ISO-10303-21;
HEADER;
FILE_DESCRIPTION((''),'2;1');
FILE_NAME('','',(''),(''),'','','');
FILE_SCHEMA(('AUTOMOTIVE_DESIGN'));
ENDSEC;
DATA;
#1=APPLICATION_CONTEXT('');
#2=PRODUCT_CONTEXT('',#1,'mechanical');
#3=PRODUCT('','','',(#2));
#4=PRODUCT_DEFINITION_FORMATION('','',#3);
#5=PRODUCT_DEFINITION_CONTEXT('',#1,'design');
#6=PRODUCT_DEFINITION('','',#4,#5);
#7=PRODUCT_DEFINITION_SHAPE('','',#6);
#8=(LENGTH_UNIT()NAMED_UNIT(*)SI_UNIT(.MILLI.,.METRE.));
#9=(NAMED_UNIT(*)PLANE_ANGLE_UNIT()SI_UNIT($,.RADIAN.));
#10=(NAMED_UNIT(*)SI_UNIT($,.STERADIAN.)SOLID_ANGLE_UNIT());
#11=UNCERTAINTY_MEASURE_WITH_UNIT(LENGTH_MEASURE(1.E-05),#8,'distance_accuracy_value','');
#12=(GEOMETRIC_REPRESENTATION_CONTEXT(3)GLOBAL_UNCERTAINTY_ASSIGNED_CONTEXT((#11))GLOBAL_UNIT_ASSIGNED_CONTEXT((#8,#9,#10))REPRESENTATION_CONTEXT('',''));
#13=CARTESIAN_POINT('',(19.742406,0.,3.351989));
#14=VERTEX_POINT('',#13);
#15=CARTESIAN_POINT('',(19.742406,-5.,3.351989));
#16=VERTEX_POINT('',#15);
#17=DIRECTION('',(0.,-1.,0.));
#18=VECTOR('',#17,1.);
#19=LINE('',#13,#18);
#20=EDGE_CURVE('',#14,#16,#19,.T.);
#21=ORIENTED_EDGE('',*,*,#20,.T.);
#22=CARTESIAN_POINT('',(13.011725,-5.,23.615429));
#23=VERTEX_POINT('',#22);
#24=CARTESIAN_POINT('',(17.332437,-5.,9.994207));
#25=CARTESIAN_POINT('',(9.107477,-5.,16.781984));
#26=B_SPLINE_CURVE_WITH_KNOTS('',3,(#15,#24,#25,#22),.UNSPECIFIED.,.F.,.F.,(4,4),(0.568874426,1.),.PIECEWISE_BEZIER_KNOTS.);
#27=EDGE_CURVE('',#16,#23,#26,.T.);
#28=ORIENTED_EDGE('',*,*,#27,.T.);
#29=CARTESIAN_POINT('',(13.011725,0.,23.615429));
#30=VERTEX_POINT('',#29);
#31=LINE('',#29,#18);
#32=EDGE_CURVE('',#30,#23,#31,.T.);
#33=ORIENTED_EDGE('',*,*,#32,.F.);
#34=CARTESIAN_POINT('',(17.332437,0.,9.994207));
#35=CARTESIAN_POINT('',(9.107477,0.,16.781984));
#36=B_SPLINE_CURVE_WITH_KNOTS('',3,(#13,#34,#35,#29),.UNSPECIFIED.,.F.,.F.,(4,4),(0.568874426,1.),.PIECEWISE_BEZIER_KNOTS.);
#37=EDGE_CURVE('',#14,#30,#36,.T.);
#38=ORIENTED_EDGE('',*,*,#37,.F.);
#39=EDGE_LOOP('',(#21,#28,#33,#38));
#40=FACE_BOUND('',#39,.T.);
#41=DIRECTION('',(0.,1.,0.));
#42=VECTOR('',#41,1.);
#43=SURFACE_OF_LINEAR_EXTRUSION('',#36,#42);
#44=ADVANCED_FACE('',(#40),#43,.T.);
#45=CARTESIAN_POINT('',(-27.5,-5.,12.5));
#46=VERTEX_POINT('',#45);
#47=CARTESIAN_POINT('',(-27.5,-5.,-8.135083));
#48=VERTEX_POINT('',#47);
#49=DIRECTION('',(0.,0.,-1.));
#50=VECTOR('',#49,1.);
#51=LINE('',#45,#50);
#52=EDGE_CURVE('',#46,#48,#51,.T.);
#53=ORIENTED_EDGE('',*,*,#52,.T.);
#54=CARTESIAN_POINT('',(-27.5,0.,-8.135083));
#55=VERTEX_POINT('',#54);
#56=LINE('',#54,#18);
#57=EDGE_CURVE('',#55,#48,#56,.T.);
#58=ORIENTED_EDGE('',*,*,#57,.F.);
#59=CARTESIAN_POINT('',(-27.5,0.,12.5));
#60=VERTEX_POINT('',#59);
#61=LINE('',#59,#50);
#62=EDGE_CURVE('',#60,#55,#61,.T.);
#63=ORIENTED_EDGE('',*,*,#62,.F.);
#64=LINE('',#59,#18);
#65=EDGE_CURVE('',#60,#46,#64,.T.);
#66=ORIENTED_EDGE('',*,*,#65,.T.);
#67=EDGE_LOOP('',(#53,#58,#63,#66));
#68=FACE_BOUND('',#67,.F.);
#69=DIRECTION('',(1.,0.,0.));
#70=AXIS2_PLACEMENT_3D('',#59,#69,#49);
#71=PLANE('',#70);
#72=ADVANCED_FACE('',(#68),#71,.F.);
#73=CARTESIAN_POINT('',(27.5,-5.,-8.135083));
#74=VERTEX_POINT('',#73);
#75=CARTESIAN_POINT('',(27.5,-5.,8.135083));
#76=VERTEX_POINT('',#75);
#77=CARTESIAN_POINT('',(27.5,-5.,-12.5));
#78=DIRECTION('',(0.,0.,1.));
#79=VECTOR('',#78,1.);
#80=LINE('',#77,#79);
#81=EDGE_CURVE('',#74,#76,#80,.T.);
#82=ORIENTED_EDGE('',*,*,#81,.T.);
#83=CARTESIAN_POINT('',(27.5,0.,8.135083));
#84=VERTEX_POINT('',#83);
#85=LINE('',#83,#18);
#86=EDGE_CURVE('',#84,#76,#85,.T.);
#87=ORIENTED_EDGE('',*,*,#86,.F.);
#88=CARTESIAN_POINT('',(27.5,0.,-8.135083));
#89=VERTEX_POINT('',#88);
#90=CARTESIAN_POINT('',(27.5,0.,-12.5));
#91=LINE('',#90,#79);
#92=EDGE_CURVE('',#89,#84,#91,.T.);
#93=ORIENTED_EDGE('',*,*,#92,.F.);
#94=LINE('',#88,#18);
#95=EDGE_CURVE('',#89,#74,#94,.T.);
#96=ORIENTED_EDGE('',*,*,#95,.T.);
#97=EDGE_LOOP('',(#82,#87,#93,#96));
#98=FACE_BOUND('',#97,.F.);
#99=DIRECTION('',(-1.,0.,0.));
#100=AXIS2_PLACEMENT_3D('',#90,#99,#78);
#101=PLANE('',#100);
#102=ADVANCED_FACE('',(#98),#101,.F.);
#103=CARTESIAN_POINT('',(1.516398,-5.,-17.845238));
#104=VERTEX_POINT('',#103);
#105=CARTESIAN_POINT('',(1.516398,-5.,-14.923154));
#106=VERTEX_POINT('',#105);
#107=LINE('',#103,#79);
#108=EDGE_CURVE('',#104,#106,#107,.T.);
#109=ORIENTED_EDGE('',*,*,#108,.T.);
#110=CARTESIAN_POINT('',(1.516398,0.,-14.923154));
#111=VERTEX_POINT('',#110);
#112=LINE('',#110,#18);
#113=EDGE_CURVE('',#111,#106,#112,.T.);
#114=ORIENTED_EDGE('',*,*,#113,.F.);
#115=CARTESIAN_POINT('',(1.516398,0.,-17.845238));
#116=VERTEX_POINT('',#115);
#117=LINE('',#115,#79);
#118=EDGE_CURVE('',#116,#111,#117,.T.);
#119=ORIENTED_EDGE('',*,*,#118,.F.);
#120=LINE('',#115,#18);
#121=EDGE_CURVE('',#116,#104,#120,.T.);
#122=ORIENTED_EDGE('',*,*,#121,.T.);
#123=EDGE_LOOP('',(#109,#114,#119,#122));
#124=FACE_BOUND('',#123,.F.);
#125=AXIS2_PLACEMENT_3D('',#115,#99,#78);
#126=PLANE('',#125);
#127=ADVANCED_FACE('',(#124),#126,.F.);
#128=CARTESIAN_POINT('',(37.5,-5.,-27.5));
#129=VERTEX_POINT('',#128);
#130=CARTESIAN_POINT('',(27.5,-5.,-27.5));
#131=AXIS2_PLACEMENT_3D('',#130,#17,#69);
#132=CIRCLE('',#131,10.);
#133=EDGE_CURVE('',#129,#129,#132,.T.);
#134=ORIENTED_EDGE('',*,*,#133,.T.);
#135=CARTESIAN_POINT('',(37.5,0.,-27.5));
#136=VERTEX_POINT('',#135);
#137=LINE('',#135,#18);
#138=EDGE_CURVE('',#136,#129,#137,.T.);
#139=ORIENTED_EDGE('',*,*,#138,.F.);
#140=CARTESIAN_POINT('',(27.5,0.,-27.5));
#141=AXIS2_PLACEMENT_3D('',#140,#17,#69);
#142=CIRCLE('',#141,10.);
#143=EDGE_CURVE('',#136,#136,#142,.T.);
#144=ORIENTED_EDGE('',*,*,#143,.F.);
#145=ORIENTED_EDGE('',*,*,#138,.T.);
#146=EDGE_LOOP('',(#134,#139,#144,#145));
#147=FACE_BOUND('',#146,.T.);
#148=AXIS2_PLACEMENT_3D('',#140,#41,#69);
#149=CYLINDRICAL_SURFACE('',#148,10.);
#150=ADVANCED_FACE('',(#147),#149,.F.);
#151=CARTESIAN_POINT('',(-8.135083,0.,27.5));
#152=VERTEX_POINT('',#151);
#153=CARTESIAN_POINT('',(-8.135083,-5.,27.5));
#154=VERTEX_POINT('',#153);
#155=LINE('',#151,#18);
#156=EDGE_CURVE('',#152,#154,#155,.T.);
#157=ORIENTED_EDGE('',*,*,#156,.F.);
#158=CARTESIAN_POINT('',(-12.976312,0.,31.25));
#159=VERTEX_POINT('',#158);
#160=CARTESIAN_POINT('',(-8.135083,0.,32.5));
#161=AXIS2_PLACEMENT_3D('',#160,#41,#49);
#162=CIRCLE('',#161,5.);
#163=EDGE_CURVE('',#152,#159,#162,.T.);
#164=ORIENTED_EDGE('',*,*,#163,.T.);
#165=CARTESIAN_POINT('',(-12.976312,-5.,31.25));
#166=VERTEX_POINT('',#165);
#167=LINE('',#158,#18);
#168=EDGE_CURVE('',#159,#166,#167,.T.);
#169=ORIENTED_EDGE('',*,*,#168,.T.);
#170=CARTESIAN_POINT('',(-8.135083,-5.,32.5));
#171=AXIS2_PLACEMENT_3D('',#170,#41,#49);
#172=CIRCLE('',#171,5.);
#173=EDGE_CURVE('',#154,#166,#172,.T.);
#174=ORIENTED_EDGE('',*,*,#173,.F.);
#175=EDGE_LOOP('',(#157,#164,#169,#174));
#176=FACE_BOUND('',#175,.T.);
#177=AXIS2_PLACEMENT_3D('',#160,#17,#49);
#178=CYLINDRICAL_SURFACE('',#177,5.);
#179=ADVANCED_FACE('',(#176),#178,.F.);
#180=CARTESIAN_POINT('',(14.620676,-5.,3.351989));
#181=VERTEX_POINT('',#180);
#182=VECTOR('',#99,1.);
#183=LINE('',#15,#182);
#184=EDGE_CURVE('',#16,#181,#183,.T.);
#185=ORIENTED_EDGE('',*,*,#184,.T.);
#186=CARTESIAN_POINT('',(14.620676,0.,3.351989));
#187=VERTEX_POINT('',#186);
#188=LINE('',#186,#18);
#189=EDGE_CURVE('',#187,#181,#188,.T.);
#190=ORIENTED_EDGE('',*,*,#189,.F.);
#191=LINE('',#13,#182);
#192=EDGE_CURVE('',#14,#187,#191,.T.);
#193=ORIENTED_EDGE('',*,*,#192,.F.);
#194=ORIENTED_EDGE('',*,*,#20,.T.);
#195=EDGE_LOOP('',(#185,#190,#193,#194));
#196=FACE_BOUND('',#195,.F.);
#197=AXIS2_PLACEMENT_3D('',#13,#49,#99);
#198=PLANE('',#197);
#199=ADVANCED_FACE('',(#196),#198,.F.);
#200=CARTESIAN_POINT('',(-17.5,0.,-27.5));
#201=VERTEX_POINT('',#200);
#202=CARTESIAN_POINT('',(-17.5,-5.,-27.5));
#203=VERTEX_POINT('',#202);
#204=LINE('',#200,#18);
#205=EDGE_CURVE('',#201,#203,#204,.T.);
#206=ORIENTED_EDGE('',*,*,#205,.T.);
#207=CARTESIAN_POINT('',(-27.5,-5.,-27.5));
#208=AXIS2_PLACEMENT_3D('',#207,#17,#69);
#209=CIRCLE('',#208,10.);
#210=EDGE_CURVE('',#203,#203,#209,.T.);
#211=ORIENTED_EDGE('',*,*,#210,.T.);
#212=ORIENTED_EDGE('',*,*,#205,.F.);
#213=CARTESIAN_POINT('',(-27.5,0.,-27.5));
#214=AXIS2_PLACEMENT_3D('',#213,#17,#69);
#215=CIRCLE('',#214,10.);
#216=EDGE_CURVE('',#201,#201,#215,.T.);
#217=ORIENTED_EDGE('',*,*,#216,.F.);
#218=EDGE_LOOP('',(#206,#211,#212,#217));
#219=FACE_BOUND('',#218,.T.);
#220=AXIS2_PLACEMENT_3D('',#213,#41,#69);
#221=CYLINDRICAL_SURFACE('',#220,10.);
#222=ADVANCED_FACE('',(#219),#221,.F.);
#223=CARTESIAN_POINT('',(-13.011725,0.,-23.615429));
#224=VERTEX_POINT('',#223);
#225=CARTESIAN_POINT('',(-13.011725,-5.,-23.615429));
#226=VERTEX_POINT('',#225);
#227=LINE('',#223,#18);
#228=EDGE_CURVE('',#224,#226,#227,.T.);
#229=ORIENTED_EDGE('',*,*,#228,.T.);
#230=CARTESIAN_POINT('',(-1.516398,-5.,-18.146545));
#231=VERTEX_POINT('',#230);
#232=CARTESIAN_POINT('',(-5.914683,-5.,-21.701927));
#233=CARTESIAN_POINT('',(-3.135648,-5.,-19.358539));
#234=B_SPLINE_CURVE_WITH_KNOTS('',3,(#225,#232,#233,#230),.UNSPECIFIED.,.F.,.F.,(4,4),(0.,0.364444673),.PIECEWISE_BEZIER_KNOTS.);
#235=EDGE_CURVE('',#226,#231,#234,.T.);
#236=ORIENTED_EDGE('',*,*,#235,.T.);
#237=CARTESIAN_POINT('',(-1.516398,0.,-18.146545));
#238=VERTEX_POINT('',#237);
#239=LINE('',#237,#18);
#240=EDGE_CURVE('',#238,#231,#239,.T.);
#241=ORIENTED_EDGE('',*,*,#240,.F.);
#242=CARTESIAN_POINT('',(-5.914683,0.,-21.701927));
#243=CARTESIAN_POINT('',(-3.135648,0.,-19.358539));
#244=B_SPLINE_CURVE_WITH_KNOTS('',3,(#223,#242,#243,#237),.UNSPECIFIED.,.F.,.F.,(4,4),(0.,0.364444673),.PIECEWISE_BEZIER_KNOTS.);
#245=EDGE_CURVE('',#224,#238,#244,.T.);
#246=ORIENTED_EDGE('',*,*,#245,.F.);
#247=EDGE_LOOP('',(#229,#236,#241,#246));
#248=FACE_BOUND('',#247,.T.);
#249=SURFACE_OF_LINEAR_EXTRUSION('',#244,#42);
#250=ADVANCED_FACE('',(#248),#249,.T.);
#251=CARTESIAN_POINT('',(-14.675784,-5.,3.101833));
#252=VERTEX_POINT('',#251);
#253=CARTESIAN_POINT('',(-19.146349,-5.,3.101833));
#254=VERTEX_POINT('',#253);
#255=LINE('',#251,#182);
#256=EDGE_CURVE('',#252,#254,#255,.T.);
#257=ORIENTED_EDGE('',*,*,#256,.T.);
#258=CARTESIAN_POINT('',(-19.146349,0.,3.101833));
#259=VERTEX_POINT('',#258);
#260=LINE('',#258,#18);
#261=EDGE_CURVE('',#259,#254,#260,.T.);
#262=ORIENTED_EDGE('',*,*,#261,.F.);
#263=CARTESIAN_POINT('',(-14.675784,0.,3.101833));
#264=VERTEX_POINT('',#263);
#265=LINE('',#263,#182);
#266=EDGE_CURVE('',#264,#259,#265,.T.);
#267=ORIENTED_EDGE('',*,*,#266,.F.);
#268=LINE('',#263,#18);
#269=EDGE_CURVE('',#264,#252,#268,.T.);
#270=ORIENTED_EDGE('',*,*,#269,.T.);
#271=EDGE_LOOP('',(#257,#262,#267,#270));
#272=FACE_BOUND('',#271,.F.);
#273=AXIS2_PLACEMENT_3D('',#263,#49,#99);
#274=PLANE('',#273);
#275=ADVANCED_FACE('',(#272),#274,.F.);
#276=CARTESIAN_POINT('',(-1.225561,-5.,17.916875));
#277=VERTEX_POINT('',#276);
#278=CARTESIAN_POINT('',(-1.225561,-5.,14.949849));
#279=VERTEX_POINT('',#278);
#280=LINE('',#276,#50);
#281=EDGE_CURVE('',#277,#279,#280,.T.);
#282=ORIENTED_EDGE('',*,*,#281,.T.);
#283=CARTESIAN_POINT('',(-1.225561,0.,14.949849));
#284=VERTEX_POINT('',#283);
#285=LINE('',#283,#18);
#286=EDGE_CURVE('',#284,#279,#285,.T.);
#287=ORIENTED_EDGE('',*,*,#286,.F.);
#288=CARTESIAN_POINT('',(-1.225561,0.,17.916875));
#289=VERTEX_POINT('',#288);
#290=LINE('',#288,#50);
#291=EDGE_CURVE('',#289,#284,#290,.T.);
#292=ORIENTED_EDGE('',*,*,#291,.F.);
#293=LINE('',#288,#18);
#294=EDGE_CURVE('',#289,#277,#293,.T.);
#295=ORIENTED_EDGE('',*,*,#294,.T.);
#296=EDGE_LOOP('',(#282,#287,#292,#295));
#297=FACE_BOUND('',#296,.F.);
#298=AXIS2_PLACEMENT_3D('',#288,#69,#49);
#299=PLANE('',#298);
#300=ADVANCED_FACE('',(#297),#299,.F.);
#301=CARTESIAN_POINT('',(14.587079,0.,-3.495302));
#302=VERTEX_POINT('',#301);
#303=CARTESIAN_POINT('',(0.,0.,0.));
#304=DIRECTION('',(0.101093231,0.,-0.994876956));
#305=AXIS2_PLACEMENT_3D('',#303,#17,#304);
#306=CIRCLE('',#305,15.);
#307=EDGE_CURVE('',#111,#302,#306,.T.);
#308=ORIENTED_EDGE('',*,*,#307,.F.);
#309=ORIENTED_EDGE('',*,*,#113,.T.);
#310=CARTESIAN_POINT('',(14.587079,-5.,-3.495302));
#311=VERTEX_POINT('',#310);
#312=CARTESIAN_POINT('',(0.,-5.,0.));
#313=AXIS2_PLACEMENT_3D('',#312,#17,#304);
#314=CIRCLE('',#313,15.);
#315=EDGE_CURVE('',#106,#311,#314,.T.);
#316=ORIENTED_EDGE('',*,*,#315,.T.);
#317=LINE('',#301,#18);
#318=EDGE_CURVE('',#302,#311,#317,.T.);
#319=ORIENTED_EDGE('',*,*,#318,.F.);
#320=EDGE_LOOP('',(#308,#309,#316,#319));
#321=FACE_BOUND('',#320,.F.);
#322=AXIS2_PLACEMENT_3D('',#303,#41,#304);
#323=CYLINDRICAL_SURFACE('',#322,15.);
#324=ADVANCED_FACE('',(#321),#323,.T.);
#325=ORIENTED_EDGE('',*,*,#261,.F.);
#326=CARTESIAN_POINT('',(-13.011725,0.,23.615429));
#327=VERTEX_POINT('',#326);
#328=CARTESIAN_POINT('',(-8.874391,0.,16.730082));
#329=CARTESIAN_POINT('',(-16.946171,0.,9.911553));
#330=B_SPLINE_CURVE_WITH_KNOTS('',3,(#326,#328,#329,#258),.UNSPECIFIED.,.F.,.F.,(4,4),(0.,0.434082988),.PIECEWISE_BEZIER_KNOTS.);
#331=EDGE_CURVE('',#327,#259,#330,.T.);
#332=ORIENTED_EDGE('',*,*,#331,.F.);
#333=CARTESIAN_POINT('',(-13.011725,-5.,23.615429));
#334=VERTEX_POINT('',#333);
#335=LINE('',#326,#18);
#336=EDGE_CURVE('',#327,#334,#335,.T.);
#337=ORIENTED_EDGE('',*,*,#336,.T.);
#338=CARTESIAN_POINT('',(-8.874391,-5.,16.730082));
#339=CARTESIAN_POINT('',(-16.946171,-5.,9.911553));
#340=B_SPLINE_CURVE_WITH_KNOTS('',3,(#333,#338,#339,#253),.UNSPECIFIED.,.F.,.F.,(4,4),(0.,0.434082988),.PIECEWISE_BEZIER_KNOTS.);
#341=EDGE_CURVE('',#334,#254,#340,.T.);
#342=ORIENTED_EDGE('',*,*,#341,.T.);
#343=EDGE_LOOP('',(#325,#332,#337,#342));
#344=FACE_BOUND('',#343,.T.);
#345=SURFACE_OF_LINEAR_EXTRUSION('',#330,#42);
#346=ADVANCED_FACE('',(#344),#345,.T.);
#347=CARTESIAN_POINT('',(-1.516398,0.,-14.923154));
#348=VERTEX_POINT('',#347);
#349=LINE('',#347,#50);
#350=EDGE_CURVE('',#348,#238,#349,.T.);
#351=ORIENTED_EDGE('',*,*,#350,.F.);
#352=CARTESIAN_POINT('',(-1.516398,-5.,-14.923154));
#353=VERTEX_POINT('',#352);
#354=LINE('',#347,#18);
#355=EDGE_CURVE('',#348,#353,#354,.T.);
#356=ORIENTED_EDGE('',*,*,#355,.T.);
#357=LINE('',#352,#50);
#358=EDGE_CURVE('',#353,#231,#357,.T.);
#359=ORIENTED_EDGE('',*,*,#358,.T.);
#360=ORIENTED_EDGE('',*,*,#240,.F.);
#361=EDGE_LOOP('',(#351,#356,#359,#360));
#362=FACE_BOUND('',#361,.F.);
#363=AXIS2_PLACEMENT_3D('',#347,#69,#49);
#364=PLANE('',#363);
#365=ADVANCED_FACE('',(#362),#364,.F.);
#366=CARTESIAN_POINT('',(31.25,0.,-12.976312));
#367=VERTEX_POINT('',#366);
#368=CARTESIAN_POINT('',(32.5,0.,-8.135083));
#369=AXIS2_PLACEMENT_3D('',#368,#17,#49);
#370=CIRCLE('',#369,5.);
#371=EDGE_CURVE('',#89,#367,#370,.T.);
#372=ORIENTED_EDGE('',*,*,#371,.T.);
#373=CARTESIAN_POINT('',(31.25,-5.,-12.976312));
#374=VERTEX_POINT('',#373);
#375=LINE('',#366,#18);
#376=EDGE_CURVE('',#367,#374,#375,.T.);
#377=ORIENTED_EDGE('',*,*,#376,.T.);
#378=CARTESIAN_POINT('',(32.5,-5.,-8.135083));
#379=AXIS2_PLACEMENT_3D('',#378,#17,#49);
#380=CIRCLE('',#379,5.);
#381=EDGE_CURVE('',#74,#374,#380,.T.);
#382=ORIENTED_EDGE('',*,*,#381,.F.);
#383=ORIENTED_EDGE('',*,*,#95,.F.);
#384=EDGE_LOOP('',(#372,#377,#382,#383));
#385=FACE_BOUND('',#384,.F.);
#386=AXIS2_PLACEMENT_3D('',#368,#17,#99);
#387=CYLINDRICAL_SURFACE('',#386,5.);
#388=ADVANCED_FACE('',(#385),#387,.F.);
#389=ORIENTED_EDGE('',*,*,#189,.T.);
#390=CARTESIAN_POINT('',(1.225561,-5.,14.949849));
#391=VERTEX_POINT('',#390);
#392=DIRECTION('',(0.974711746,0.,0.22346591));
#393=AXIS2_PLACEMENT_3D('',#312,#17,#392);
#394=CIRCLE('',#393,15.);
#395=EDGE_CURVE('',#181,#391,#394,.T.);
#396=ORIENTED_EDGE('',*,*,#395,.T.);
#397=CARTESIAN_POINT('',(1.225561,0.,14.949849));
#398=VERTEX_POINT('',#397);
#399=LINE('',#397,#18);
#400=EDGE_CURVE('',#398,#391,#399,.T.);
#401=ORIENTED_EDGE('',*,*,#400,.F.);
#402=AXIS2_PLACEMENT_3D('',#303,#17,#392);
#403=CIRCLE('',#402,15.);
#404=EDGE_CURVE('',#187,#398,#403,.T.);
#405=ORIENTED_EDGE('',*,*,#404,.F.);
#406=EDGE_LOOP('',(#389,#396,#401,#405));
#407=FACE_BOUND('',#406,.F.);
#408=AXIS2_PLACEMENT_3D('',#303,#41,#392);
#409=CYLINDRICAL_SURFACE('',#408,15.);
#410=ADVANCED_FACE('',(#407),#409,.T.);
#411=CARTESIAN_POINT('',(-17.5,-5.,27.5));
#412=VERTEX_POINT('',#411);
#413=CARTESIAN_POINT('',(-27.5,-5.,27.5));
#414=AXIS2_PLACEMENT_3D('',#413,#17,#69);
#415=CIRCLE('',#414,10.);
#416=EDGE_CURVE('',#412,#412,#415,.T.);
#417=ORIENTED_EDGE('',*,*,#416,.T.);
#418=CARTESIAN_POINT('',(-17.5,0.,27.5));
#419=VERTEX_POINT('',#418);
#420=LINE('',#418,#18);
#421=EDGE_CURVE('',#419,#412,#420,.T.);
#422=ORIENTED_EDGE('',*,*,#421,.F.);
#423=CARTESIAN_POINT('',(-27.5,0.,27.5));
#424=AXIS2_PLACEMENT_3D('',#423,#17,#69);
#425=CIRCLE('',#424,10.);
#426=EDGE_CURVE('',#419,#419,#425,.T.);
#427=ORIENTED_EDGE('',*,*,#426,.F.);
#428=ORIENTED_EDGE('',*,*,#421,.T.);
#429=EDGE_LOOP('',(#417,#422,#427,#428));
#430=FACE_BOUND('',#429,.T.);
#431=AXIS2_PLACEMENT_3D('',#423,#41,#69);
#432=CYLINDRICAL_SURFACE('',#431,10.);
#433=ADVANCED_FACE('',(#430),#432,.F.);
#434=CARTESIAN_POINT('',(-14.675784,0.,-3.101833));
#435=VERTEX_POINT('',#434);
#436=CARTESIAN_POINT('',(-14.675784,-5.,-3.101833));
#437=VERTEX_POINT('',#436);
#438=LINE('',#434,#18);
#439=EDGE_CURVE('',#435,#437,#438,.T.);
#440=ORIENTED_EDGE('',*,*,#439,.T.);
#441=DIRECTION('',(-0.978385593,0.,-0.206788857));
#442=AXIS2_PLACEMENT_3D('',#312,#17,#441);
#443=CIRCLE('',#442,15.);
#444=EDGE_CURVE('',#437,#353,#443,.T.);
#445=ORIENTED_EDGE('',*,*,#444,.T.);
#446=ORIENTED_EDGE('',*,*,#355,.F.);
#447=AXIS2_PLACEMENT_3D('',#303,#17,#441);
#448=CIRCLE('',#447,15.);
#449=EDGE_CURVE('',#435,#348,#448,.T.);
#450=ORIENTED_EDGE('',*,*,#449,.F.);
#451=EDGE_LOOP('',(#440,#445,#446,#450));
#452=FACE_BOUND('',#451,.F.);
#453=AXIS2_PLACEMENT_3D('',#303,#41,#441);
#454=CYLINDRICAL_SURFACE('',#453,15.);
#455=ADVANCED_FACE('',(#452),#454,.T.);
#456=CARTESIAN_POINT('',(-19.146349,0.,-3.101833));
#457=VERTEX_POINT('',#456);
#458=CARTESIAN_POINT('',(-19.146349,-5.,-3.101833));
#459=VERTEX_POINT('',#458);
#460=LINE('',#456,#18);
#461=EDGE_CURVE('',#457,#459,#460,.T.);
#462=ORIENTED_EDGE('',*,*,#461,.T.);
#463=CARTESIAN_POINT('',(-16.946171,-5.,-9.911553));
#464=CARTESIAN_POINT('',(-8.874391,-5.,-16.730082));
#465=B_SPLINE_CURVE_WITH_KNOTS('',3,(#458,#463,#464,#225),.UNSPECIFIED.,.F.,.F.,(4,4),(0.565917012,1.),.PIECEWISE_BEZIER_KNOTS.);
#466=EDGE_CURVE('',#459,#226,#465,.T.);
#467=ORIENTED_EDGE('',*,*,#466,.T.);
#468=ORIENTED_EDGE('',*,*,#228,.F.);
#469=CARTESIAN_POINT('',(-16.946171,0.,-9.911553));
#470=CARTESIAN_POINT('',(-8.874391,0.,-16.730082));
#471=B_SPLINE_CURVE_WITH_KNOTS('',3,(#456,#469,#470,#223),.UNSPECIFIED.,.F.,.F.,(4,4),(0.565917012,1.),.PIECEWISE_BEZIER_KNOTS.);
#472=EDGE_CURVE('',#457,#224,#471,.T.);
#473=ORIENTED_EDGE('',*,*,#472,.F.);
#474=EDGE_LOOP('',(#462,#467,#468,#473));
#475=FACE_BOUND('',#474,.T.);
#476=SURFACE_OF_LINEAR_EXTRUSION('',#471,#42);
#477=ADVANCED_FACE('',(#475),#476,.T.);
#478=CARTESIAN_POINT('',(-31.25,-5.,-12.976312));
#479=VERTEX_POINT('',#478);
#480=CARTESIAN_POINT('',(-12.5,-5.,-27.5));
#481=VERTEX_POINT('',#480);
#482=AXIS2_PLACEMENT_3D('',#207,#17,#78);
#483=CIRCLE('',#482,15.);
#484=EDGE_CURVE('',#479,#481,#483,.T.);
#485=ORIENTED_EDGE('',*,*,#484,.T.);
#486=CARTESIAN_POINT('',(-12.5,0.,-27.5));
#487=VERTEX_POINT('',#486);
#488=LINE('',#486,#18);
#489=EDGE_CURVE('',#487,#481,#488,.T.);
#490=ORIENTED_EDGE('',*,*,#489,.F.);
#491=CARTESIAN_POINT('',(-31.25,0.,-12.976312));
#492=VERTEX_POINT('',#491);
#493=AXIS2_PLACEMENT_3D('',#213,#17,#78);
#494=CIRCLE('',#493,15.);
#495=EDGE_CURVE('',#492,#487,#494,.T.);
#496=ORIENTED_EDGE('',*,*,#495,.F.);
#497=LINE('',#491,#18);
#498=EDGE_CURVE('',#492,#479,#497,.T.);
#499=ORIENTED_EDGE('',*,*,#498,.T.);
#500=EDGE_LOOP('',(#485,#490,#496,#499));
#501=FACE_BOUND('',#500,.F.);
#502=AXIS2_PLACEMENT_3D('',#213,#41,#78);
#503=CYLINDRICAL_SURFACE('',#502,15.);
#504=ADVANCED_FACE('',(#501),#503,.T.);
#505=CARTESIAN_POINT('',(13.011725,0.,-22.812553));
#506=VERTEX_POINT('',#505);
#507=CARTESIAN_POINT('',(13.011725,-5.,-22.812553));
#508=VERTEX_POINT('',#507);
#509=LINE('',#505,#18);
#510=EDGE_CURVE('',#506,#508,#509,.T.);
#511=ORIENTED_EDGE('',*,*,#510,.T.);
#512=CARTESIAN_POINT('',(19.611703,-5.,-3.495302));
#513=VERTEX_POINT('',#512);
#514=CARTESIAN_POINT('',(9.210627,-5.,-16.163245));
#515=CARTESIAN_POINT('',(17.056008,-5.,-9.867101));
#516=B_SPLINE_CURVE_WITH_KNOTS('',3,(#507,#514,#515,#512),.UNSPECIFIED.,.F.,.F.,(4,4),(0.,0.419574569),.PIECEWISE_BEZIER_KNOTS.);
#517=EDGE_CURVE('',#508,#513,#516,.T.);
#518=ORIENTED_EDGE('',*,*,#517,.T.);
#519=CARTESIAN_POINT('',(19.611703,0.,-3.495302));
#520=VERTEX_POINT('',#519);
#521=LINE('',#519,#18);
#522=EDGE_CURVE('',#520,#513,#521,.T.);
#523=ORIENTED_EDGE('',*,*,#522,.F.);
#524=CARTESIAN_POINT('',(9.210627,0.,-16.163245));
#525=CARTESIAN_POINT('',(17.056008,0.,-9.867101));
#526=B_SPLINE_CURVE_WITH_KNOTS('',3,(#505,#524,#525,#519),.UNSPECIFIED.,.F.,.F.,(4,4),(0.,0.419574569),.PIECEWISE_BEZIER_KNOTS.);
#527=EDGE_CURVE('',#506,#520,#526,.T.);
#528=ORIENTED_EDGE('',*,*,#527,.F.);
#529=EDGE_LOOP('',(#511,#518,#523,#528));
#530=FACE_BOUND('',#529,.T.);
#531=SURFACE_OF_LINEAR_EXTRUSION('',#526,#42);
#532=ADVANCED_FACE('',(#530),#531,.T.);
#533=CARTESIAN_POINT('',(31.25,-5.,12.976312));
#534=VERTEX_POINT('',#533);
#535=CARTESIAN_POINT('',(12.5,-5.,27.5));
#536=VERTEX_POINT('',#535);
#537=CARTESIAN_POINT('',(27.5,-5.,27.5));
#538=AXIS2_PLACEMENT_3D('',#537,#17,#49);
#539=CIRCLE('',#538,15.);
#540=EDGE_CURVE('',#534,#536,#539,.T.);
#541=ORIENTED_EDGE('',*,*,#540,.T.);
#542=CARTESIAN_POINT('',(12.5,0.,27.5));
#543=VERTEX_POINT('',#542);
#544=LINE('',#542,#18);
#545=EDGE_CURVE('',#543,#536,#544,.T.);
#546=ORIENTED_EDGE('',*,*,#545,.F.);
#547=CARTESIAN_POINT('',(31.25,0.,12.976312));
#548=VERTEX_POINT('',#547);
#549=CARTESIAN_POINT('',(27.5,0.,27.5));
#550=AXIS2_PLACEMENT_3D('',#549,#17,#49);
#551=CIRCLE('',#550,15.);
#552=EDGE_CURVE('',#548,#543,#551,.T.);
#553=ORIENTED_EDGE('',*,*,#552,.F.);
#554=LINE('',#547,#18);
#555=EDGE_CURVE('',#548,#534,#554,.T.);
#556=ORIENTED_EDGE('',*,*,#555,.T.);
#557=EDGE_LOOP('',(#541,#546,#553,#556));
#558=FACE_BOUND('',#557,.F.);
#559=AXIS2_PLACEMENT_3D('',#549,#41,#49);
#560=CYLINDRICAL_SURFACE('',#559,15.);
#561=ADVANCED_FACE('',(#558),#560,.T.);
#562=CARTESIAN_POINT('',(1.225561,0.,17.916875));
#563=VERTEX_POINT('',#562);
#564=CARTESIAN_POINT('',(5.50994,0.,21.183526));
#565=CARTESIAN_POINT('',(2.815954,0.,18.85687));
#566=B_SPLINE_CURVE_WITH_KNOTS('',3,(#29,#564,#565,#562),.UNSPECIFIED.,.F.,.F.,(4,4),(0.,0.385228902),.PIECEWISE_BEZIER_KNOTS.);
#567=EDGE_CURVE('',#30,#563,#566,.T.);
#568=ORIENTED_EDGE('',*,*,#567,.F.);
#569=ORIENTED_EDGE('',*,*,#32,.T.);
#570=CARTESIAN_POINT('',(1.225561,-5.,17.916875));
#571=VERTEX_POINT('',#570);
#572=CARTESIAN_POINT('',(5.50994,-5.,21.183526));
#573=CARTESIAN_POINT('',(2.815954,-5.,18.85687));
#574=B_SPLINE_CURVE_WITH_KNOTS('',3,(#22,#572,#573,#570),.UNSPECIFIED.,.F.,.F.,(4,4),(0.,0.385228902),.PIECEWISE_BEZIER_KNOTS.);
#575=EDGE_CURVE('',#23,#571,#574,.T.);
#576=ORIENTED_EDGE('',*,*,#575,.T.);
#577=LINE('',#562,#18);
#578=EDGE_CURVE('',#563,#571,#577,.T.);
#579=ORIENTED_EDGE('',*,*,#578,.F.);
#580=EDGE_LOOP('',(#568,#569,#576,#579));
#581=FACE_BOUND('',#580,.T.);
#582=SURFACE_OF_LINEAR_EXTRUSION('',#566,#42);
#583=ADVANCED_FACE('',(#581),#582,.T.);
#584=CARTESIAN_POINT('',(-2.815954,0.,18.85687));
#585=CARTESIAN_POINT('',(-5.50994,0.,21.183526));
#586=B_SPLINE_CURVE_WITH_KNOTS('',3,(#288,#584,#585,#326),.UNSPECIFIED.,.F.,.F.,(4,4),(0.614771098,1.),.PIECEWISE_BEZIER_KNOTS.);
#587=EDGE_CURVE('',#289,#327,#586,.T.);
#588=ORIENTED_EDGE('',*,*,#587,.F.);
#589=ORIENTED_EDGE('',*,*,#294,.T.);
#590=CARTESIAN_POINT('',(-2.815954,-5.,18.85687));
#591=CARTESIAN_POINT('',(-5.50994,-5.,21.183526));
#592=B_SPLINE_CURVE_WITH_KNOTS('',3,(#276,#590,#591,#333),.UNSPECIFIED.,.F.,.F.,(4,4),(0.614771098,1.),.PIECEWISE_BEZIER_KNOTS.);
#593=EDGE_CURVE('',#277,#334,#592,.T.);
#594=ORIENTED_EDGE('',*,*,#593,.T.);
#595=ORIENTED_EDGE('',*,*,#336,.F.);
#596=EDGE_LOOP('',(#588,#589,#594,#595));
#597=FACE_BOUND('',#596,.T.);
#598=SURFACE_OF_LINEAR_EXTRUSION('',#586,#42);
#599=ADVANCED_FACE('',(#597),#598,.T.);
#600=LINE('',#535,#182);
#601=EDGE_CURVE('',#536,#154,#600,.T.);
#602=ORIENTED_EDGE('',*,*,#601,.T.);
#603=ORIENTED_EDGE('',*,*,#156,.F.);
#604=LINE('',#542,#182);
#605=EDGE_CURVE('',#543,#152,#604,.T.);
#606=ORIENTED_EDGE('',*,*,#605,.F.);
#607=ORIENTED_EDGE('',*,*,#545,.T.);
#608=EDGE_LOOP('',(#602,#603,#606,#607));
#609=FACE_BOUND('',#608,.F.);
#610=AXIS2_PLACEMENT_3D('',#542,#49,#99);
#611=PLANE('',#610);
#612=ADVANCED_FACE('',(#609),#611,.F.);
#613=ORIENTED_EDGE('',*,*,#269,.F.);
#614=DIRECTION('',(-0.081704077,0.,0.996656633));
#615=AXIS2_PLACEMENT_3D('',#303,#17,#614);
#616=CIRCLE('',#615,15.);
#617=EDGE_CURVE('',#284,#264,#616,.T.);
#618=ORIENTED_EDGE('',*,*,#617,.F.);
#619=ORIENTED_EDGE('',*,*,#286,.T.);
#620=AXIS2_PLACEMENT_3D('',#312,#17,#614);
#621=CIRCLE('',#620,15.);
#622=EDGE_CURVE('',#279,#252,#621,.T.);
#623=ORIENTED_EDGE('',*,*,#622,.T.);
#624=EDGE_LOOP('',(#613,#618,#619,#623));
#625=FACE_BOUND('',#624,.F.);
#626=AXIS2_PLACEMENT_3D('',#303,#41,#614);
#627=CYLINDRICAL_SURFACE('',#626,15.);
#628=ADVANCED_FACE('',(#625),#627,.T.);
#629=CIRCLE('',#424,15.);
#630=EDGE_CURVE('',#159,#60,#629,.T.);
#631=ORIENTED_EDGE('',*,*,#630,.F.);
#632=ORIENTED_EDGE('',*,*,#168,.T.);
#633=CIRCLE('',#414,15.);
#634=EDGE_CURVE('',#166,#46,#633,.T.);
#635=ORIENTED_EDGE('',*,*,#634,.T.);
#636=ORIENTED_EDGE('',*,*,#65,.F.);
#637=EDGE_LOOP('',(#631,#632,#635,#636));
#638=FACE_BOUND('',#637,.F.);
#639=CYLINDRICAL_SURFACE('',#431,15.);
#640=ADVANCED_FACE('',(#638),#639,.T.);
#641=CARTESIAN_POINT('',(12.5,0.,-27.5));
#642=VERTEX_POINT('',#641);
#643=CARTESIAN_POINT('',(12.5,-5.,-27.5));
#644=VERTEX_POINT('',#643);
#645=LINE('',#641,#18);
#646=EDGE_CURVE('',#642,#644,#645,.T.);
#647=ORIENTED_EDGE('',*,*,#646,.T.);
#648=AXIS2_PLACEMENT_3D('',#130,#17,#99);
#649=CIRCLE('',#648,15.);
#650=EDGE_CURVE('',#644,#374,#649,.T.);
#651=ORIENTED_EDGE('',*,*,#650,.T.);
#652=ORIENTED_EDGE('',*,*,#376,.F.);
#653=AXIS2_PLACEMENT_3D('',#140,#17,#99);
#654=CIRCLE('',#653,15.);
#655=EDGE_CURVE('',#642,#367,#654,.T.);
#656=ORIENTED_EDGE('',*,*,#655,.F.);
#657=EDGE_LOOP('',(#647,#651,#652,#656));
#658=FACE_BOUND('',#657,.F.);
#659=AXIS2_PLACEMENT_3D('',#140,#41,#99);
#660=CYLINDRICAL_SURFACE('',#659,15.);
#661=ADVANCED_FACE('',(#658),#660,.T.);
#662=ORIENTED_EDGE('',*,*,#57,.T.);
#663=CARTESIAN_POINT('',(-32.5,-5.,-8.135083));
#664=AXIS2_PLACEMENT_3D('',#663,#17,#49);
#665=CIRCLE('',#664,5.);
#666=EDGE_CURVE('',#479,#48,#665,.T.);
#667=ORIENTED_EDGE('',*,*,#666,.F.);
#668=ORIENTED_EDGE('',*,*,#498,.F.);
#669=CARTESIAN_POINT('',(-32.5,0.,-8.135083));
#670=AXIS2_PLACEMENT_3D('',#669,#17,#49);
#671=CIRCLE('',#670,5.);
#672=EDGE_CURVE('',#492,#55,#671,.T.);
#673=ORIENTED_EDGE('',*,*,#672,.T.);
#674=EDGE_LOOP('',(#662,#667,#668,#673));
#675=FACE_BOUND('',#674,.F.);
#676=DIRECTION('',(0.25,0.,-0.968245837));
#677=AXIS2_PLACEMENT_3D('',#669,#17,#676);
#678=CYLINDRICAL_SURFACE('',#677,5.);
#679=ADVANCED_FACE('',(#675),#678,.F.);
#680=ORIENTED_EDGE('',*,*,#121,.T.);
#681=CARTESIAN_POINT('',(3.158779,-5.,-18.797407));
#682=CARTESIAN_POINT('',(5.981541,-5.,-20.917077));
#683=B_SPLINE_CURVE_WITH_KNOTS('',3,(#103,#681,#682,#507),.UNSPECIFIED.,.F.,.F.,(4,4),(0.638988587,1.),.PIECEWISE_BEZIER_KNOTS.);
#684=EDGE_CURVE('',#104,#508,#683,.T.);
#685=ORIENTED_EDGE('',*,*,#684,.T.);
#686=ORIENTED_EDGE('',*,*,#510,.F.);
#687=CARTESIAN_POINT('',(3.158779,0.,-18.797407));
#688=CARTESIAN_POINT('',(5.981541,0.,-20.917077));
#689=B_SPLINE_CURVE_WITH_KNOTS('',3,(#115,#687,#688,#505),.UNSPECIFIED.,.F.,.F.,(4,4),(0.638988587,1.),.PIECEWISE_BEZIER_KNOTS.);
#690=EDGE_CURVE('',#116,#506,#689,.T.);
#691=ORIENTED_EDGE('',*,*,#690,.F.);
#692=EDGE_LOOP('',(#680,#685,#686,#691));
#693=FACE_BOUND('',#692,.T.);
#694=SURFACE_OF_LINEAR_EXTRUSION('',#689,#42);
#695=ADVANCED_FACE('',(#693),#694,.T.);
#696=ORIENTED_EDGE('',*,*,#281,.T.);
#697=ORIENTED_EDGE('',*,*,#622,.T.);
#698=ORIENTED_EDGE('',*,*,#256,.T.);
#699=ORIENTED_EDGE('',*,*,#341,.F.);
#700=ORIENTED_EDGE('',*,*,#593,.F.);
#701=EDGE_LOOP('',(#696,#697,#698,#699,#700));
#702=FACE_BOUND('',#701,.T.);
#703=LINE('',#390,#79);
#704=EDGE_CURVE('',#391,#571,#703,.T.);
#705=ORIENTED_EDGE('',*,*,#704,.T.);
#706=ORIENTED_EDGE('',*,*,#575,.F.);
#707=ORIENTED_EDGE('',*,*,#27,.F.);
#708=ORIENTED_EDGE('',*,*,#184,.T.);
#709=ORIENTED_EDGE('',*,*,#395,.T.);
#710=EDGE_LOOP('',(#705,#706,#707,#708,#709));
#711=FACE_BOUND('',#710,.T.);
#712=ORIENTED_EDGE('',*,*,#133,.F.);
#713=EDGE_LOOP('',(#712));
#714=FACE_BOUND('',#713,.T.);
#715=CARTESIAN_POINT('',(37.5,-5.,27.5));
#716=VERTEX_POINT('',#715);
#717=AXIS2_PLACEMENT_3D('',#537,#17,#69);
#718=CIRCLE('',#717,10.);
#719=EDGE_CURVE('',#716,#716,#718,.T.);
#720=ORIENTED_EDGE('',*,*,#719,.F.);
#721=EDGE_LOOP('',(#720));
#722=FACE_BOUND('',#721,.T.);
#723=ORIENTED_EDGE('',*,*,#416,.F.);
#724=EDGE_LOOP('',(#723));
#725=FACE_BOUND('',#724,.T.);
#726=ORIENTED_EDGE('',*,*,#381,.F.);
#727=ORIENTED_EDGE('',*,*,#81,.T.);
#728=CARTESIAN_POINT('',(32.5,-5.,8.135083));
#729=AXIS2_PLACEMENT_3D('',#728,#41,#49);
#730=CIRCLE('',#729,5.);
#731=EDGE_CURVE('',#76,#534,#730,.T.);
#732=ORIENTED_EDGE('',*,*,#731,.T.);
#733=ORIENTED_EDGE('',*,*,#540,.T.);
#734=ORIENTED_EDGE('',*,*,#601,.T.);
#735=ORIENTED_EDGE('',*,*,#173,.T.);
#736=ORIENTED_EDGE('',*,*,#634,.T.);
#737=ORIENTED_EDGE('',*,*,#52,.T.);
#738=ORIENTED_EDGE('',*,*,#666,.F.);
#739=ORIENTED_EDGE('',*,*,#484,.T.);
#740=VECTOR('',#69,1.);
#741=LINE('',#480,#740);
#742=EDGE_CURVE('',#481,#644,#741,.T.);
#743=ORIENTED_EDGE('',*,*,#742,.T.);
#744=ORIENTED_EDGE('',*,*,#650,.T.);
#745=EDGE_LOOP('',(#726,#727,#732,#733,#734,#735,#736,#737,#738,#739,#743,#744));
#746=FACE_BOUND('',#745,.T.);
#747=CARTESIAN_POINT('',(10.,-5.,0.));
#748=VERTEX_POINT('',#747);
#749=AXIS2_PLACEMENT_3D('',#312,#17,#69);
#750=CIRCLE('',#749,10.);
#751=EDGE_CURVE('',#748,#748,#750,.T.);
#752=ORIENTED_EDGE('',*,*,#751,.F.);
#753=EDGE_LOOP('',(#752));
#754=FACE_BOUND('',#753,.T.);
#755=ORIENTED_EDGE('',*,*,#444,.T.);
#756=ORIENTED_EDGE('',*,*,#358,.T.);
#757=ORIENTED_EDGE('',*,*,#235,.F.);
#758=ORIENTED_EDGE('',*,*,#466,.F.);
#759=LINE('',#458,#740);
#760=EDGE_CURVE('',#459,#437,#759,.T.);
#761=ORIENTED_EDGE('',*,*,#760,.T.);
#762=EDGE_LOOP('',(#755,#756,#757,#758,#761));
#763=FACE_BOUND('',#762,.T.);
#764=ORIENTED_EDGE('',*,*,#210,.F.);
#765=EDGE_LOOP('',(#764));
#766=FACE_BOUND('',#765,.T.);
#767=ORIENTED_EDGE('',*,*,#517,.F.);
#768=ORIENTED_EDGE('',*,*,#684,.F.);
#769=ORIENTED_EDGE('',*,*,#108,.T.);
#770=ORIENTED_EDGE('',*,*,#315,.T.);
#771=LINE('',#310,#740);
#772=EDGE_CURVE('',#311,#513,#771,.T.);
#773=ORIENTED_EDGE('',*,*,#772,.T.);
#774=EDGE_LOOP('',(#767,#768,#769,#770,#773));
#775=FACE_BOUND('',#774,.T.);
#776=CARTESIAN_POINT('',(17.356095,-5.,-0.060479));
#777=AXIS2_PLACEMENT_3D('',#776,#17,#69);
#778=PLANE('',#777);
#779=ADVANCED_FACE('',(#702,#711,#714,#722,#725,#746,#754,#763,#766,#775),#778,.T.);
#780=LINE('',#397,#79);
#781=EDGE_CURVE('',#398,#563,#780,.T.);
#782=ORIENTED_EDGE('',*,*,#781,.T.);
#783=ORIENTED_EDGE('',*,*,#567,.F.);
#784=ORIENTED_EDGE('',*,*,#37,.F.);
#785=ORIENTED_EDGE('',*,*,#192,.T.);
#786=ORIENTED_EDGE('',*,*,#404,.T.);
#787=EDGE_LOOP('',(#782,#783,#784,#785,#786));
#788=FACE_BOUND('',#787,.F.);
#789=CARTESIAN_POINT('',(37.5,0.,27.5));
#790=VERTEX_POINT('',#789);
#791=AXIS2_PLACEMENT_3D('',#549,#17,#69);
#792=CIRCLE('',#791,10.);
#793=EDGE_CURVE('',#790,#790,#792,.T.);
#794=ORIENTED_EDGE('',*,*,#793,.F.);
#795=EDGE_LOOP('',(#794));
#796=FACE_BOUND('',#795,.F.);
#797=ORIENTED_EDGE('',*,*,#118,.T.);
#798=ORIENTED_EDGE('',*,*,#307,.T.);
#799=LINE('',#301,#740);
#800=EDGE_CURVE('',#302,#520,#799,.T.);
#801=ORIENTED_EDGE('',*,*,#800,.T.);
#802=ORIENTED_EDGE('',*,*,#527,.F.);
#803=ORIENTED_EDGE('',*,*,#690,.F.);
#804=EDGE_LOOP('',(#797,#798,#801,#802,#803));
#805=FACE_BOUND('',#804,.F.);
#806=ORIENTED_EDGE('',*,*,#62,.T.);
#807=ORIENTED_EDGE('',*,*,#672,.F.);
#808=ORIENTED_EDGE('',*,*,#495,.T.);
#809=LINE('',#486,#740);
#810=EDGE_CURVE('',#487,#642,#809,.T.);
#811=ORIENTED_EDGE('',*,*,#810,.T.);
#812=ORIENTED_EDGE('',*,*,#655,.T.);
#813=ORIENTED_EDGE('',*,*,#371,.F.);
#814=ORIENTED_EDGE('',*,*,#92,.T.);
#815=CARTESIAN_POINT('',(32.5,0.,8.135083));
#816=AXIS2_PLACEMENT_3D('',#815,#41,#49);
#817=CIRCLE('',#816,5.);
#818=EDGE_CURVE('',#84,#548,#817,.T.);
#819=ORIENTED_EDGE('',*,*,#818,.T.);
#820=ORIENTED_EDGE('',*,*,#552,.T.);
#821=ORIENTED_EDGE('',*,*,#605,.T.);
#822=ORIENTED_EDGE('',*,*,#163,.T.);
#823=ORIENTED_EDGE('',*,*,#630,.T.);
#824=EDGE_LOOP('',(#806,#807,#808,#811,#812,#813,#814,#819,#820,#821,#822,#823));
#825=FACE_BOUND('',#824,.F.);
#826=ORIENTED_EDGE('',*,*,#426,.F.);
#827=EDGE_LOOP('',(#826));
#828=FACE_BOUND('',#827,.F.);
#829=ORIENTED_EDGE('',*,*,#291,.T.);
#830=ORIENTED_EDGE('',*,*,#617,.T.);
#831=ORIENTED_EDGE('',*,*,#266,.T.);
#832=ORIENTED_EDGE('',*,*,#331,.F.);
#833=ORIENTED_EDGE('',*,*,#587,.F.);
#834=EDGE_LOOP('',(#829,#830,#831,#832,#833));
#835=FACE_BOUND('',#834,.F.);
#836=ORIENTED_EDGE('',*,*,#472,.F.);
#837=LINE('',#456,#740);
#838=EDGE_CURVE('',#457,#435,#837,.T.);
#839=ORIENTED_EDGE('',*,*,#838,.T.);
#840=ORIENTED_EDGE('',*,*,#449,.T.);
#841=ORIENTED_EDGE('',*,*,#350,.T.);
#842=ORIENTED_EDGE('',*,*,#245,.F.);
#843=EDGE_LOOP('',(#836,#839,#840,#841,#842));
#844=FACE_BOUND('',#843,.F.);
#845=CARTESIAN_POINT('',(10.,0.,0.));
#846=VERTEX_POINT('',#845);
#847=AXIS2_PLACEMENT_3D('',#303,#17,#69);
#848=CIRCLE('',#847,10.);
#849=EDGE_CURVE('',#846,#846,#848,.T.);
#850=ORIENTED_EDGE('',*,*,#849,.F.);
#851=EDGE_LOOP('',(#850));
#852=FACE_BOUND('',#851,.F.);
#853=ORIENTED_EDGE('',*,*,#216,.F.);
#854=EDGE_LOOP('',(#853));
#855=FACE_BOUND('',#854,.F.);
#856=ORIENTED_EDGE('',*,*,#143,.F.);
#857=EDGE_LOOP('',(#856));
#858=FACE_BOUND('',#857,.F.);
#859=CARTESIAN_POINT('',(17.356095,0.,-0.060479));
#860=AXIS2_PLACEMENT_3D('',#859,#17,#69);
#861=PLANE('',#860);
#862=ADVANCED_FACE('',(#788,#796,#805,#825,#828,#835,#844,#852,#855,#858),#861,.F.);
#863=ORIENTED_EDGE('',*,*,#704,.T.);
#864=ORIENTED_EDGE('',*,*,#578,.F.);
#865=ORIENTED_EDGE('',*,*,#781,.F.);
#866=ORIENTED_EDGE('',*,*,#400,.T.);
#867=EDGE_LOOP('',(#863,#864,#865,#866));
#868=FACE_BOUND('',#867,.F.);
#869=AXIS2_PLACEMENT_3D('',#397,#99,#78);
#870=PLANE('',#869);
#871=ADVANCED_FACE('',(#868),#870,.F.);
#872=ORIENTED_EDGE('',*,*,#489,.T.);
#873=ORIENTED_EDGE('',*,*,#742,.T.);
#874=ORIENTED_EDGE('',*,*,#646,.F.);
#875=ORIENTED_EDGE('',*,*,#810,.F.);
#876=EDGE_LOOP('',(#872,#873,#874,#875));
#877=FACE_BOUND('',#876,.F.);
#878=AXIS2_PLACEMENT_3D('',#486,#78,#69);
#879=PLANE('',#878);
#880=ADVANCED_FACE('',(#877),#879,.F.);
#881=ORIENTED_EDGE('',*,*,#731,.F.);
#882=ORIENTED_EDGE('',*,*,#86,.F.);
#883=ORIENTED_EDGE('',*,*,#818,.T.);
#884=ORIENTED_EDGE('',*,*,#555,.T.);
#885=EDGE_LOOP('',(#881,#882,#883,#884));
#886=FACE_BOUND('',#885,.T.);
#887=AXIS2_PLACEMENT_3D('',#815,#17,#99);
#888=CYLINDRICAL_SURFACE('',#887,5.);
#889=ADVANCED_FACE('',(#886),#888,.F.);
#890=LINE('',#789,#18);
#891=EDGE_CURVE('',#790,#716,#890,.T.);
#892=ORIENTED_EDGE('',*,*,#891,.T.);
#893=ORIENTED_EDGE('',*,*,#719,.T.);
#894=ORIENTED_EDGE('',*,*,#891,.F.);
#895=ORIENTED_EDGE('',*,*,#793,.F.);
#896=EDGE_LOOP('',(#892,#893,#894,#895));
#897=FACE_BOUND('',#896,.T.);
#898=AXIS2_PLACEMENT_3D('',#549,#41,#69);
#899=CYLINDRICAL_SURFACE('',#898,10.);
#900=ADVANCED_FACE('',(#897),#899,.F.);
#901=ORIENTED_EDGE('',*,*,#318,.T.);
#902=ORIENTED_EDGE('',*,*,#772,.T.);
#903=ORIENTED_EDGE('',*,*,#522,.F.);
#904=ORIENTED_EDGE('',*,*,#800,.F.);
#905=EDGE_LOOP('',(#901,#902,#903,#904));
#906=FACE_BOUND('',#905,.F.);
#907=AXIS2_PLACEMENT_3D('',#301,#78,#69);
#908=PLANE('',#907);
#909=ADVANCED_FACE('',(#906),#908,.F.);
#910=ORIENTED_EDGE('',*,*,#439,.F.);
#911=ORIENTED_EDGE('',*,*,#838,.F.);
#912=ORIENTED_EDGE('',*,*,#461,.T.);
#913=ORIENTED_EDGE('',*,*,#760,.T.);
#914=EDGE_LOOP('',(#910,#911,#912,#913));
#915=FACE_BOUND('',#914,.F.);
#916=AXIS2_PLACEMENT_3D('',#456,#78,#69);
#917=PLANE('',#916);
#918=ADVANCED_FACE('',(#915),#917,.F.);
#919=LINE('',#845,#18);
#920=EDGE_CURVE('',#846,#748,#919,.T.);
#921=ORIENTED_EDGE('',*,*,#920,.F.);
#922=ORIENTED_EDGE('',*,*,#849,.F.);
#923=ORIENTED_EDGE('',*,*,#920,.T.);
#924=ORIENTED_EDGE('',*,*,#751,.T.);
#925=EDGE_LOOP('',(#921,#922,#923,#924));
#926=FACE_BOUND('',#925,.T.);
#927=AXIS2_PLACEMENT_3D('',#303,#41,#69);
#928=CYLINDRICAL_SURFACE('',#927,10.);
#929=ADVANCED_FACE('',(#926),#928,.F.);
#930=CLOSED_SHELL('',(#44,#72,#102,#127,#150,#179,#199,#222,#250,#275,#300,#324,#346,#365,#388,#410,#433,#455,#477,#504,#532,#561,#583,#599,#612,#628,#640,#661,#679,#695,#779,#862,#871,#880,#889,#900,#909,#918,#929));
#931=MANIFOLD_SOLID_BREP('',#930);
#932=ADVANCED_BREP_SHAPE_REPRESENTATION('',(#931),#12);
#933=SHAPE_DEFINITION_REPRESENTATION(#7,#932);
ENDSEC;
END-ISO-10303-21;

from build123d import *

# Parameters (mm, degrees)
F0_R     = 10
F1_DEPTH = 5
F2_R     = 5
F3_R     = 5
F4_DEPTH = 25


with BuildPart() as f1:
    # F0 (on Front) → F1 (new body)
    with BuildSketch(Plane.XZ):
        with BuildLine():
            add(Edge.make_bspline(
                [(19.6117025062, -3.4953018185), (20.0776619455, -2.3335824214), (20.6438929209, -0.0613566909), (20.1493664179, 2.2303480995), (19.742406118, 3.3519886549)],
                knots=[0.4195745688, 0.4195745688, 0.4195745688, 0.4195745688, 0.4960722568, 0.5688744263, 0.5688744263, 0.5688744263, 0.5688744263], degree=3))
            Line((19.742406118, 3.3519886549), (14.6206761833, 3.3519886549))
            ThreePointArc((14.6206761833, 3.3519886549), (14.9048673719, 1.6866916212), (15, 0))
            ThreePointArc((15, 0), (14.8964119942, -1.7598038809), (14.5870787068, -3.4953018185))
            Line((14.5870787068, -3.4953018185), (19.6117025062, -3.4953018185))
        make_face()
        with BuildLine():
            add(Edge.make_bspline(
                [(-1.5163984723, -18.1465453552), (-0.9012756584, -17.6861315251), (-0.0133596841, -17.0968852874), (0.8972354155, -17.4862781525), (1.5163984723, -17.845237755)],
                knots=[0.3644446734, 0.3644446734, 0.3644446734, 0.3644446734, 0.5028904355, 0.6389885865, 0.6389885865, 0.6389885865, 0.6389885865], degree=3))
            Line((1.5163984723, -17.845237755), (1.5163984723, -14.9231543473))
            ThreePointArc((1.5163984723, -14.9231543473), (0, -15), (-1.5163984723, -14.9231543473))
            Line((-1.5163984723, -14.9231543473), (-1.5163984723, -18.1465453552))
        make_face()
        with BuildLine():
            Line((-14.6757838937, 3.1018328621), (-19.1463490467, 3.1018328621))
            add(Edge.make_bspline(
                [(-19.1463490467, 3.1018328621), (-19.4804537552, 2.0677531569), (-19.877871021, 0), (-19.4804537552, -2.0677531569), (-19.1463490467, -3.1018328621)],
                knots=[0.434082988, 0.434082988, 0.434082988, 0.434082988, 0.5, 0.565917012, 0.565917012, 0.565917012, 0.565917012], degree=3))
            Line((-19.1463490467, -3.1018328621), (-14.6757838937, -3.1018328621))
            ThreePointArc((-14.6757838937, -3.1018328621), (-15, 0), (-14.6757838937, 3.1018328621))
        make_face()
        with BuildLine():
            Line((1.225561158, 14.9498494925), (1.225561158, 17.9168751217))
            add(Edge.make_bspline(
                [(1.225561158, 17.9168751217), (0.7517359921, 17.6368227378), (0, 17.3228835959), (-0.7517359921, 17.6368227378), (-1.225561158, 17.9168751217)],
                knots=[0.3852289018, 0.3852289018, 0.3852289018, 0.3852289018, 0.5, 0.6147710982, 0.6147710982, 0.6147710982, 0.6147710982], degree=3))
            Line((-1.225561158, 17.9168751217), (-1.225561158, 14.9498494925))
            ThreePointArc((-1.225561158, 14.9498494925), (0, 15), (1.225561158, 14.9498494925))
        make_face()
        with BuildLine():
            Line((27.5, -12.5), (27.5, 12.5))
            ThreePointArc((27.5, 12.5), (18.3695172954, 15.5989796412), (13.0117252596, 23.6154285891))
            add(Edge.make_bspline(
                [(19.742406118, 3.3519886549), (17.3324368296, 9.9942072978), (9.1074771998, 16.7819842724), (13.0117252596, 23.6154285891)],
                knots=[0.5688744263, 0.5688744263, 0.5688744263, 0.5688744263, 1, 1, 1, 1], degree=3))
            add(Edge.make_bspline(
                [(19.6117025062, -3.4953018185), (20.0776619455, -2.3335824214), (20.6438929209, -0.0613566909), (20.1493664179, 2.2303480995), (19.742406118, 3.3519886549)],
                knots=[0.4195745688, 0.4195745688, 0.4195745688, 0.4195745688, 0.4960722568, 0.5688744263, 0.5688744263, 0.5688744263, 0.5688744263], degree=3))
            add(Edge.make_bspline(
                [(13.0117252596, -22.8125530654), (9.2106265425, -16.1632445639), (17.0560078684, -9.8671011282), (19.6117025062, -3.4953018185)],
                knots=[0, 0, 0, 0, 0.4195745688, 0.4195745688, 0.4195745688, 0.4195745688], degree=3))
            add(Edge.make_bspline(
                [(1.5163984723, -17.845237755), (3.1587788316, -18.7974072918), (5.9815411198, -20.9170774405), (13.0117252596, -22.8125530654)],
                knots=[0.6389885865, 0.6389885865, 0.6389885865, 0.6389885865, 1, 1, 1, 1], degree=3))
            add(Edge.make_bspline(
                [(-1.5163984723, -18.1465453552), (-0.9012756584, -17.6861315251), (-0.0133596841, -17.0968852874), (0.8972354155, -17.4862781525), (1.5163984723, -17.845237755)],
                knots=[0.3644446734, 0.3644446734, 0.3644446734, 0.3644446734, 0.5028904355, 0.6389885865, 0.6389885865, 0.6389885865, 0.6389885865], degree=3))
            add(Edge.make_bspline(
                [(-13.0117252596, -23.6154285891), (-5.9146832629, -21.7019267737), (-3.1356479862, -19.3585388852), (-1.5163984723, -18.1465453552)],
                knots=[0, 0, 0, 0, 0.3644446734, 0.3644446734, 0.3644446734, 0.3644446734], degree=3))
            ThreePointArc((-13.0117252596, -23.6154285891), (-12.6284815653, -25.5409340371), (-12.5, -27.5))
            Line((-12.5, -27.5), (12.5, -27.5))
            ThreePointArc((12.5, -27.5), (16.8933982822, -16.8933982822), (27.5, -12.5))
        make_face()
        with BuildLine():
            ThreePointArc((-13.0117252596, 23.6154285891), (-18.3695172954, 15.5989796412), (-27.5, 12.5))
            Line((-27.5, 12.5), (-27.5, -12.5))
            ThreePointArc((-27.5, -12.5), (-18.3695172954, -15.5989796412), (-13.0117252596, -23.6154285891))
            add(Edge.make_bspline(
                [(-19.1463490467, -3.1018328621), (-16.9461708863, -9.9115530651), (-8.8743910836, -16.7300820857), (-13.0117252596, -23.6154285891)],
                knots=[0.565917012, 0.565917012, 0.565917012, 0.565917012, 1, 1, 1, 1], degree=3))
            add(Edge.make_bspline(
                [(-19.1463490467, 3.1018328621), (-19.4804537552, 2.0677531569), (-19.877871021, 0), (-19.4804537552, -2.0677531569), (-19.1463490467, -3.1018328621)],
                knots=[0.434082988, 0.434082988, 0.434082988, 0.434082988, 0.5, 0.565917012, 0.565917012, 0.565917012, 0.565917012], degree=3))
            add(Edge.make_bspline(
                [(-13.0117252596, 23.6154285891), (-8.8743910836, 16.7300820857), (-16.9461708863, 9.9115530651), (-19.1463490467, 3.1018328621)],
                knots=[0, 0, 0, 0, 0.434082988, 0.434082988, 0.434082988, 0.434082988], degree=3))
        make_face()
        with BuildLine():
            ThreePointArc((13.0117252596, 23.6154285891), (12.6284815653, 25.5409340371), (12.5, 27.5))
            Line((12.5, 27.5), (-12.5, 27.5))
            ThreePointArc((-12.5, 27.5), (-12.6284815653, 25.5409340371), (-13.0117252596, 23.6154285891))
            add(Edge.make_bspline(
                [(-1.225561158, 17.9168751217), (-2.8159541317, 18.856870242), (-5.5099399576, 21.1835256037), (-13.0117252596, 23.6154285891)],
                knots=[0.6147710982, 0.6147710982, 0.6147710982, 0.6147710982, 1, 1, 1, 1], degree=3))
            add(Edge.make_bspline(
                [(1.225561158, 17.9168751217), (0.7517359921, 17.6368227378), (0, 17.3228835959), (-0.7517359921, 17.6368227378), (-1.225561158, 17.9168751217)],
                knots=[0.3852289018, 0.3852289018, 0.3852289018, 0.3852289018, 0.5, 0.6147710982, 0.6147710982, 0.6147710982, 0.6147710982], degree=3))
            add(Edge.make_bspline(
                [(13.0117252596, 23.6154285891), (5.5099399576, 21.1835256037), (2.8159541317, 18.856870242), (1.225561158, 17.9168751217)],
                knots=[0, 0, 0, 0, 0.3852289018, 0.3852289018, 0.3852289018, 0.3852289018], degree=3))
        make_face()
        with BuildLine():
            ThreePointArc((27.5, 12.5), (38.1066017178, 16.8933982822), (42.5, 27.5))
            ThreePointArc((42.5, 27.5), (27.5, 42.5), (12.5, 27.5))
            ThreePointArc((12.5, 27.5), (12.6284815653, 25.5409340371), (13.0117252596, 23.6154285891))
            ThreePointArc((13.0117252596, 23.6154285891), (18.3695172954, 15.5989796412), (27.5, 12.5))
        make_face()
        with Locations((27.5, 27.5)):
            Circle(F0_R, mode=Mode.SUBTRACT)
        with BuildLine():
            ThreePointArc((15, 0), (14.9048673719, 1.6866916212), (14.6206761833, 3.3519886549))
            ThreePointArc((14.6206761833, 3.3519886549), (9.8185234873, 11.3400439386), (1.225561158, 14.9498494925))
            ThreePointArc((1.225561158, 14.9498494925), (0, 15), (-1.225561158, 14.9498494925))
            ThreePointArc((-1.225561158, 14.9498494925), (-9.9149920894, 11.2557954791), (-14.6757838937, 3.1018328621))
            ThreePointArc((-14.6757838937, 3.1018328621), (-15, 0), (-14.6757838937, -3.1018328621))
            ThreePointArc((-14.6757838937, -3.1018328621), (-10.0241010997, -11.1587363596), (-1.5163984723, -14.9231543473))
            ThreePointArc((-1.5163984723, -14.9231543473), (0, -15), (1.5163984723, -14.9231543473))
            ThreePointArc((1.5163984723, -14.9231543473), (9.8731680665, -11.2924998265), (14.5870787068, -3.4953018185))
            ThreePointArc((14.5870787068, -3.4953018185), (14.8964119942, -1.7598038809), (15, 0))
        make_face()
        Circle(F0_R, mode=Mode.SUBTRACT)
        with BuildLine():
            ThreePointArc((42.5, -27.5), (38.1066017178, -16.8933982822), (27.5, -12.5))
            ThreePointArc((27.5, -12.5), (16.8933982822, -16.8933982822), (12.5, -27.5))
            ThreePointArc((12.5, -27.5), (27.5, -42.5), (42.5, -27.5))
        make_face()
        with Locations((27.5, -27.5)):
            Circle(F0_R, mode=Mode.SUBTRACT)
        with BuildLine():
            ThreePointArc((-13.0117252596, -23.6154285891), (-18.3695172954, -15.5989796412), (-27.5, -12.5))
            ThreePointArc((-27.5, -12.5), (-38.1066017178, -38.1066017178), (-12.5, -27.5))
            ThreePointArc((-12.5, -27.5), (-12.6284815653, -25.5409340371), (-13.0117252596, -23.6154285891))
        make_face()
        with Locations((-27.5, -27.5)):
            Circle(F0_R, mode=Mode.SUBTRACT)
        with BuildLine():
            ThreePointArc((-13.0117252596, 23.6154285891), (-12.6284815653, 25.5409340371), (-12.5, 27.5))
            ThreePointArc((-12.5, 27.5), (-38.1066017178, 38.1066017178), (-27.5, 12.5))
            ThreePointArc((-27.5, 12.5), (-18.3695172954, 15.5989796412), (-13.0117252596, 23.6154285891))
        make_face()
        with Locations((-27.5, 27.5)):
            Circle(F0_R, mode=Mode.SUBTRACT)
    extrude(amount=F1_DEPTH)

    # F2
    f2_edges = [f1.edges().sort_by_distance(p)[0] for p in [
        (27.5, -2.5, -12.5),
    ]]
    fillet(f2_edges, radius=F2_R)

    # F3
    f3_edges = [f1.edges().sort_by_distance(p)[0] for p in [
        (-27.5, -2.5, -12.5),
        (-12.5, -2.5, 27.5),
        (27.5, -2.5, 12.5),
    ]]
    fillet(f3_edges, radius=F3_R)


with BuildPart() as f4:
    # F0 (on Front) → F4 (new body)
    with BuildSketch(Plane.XZ):
        Circle(F0_R)
    extrude(amount=F4_DEPTH)


solid = f1.part
